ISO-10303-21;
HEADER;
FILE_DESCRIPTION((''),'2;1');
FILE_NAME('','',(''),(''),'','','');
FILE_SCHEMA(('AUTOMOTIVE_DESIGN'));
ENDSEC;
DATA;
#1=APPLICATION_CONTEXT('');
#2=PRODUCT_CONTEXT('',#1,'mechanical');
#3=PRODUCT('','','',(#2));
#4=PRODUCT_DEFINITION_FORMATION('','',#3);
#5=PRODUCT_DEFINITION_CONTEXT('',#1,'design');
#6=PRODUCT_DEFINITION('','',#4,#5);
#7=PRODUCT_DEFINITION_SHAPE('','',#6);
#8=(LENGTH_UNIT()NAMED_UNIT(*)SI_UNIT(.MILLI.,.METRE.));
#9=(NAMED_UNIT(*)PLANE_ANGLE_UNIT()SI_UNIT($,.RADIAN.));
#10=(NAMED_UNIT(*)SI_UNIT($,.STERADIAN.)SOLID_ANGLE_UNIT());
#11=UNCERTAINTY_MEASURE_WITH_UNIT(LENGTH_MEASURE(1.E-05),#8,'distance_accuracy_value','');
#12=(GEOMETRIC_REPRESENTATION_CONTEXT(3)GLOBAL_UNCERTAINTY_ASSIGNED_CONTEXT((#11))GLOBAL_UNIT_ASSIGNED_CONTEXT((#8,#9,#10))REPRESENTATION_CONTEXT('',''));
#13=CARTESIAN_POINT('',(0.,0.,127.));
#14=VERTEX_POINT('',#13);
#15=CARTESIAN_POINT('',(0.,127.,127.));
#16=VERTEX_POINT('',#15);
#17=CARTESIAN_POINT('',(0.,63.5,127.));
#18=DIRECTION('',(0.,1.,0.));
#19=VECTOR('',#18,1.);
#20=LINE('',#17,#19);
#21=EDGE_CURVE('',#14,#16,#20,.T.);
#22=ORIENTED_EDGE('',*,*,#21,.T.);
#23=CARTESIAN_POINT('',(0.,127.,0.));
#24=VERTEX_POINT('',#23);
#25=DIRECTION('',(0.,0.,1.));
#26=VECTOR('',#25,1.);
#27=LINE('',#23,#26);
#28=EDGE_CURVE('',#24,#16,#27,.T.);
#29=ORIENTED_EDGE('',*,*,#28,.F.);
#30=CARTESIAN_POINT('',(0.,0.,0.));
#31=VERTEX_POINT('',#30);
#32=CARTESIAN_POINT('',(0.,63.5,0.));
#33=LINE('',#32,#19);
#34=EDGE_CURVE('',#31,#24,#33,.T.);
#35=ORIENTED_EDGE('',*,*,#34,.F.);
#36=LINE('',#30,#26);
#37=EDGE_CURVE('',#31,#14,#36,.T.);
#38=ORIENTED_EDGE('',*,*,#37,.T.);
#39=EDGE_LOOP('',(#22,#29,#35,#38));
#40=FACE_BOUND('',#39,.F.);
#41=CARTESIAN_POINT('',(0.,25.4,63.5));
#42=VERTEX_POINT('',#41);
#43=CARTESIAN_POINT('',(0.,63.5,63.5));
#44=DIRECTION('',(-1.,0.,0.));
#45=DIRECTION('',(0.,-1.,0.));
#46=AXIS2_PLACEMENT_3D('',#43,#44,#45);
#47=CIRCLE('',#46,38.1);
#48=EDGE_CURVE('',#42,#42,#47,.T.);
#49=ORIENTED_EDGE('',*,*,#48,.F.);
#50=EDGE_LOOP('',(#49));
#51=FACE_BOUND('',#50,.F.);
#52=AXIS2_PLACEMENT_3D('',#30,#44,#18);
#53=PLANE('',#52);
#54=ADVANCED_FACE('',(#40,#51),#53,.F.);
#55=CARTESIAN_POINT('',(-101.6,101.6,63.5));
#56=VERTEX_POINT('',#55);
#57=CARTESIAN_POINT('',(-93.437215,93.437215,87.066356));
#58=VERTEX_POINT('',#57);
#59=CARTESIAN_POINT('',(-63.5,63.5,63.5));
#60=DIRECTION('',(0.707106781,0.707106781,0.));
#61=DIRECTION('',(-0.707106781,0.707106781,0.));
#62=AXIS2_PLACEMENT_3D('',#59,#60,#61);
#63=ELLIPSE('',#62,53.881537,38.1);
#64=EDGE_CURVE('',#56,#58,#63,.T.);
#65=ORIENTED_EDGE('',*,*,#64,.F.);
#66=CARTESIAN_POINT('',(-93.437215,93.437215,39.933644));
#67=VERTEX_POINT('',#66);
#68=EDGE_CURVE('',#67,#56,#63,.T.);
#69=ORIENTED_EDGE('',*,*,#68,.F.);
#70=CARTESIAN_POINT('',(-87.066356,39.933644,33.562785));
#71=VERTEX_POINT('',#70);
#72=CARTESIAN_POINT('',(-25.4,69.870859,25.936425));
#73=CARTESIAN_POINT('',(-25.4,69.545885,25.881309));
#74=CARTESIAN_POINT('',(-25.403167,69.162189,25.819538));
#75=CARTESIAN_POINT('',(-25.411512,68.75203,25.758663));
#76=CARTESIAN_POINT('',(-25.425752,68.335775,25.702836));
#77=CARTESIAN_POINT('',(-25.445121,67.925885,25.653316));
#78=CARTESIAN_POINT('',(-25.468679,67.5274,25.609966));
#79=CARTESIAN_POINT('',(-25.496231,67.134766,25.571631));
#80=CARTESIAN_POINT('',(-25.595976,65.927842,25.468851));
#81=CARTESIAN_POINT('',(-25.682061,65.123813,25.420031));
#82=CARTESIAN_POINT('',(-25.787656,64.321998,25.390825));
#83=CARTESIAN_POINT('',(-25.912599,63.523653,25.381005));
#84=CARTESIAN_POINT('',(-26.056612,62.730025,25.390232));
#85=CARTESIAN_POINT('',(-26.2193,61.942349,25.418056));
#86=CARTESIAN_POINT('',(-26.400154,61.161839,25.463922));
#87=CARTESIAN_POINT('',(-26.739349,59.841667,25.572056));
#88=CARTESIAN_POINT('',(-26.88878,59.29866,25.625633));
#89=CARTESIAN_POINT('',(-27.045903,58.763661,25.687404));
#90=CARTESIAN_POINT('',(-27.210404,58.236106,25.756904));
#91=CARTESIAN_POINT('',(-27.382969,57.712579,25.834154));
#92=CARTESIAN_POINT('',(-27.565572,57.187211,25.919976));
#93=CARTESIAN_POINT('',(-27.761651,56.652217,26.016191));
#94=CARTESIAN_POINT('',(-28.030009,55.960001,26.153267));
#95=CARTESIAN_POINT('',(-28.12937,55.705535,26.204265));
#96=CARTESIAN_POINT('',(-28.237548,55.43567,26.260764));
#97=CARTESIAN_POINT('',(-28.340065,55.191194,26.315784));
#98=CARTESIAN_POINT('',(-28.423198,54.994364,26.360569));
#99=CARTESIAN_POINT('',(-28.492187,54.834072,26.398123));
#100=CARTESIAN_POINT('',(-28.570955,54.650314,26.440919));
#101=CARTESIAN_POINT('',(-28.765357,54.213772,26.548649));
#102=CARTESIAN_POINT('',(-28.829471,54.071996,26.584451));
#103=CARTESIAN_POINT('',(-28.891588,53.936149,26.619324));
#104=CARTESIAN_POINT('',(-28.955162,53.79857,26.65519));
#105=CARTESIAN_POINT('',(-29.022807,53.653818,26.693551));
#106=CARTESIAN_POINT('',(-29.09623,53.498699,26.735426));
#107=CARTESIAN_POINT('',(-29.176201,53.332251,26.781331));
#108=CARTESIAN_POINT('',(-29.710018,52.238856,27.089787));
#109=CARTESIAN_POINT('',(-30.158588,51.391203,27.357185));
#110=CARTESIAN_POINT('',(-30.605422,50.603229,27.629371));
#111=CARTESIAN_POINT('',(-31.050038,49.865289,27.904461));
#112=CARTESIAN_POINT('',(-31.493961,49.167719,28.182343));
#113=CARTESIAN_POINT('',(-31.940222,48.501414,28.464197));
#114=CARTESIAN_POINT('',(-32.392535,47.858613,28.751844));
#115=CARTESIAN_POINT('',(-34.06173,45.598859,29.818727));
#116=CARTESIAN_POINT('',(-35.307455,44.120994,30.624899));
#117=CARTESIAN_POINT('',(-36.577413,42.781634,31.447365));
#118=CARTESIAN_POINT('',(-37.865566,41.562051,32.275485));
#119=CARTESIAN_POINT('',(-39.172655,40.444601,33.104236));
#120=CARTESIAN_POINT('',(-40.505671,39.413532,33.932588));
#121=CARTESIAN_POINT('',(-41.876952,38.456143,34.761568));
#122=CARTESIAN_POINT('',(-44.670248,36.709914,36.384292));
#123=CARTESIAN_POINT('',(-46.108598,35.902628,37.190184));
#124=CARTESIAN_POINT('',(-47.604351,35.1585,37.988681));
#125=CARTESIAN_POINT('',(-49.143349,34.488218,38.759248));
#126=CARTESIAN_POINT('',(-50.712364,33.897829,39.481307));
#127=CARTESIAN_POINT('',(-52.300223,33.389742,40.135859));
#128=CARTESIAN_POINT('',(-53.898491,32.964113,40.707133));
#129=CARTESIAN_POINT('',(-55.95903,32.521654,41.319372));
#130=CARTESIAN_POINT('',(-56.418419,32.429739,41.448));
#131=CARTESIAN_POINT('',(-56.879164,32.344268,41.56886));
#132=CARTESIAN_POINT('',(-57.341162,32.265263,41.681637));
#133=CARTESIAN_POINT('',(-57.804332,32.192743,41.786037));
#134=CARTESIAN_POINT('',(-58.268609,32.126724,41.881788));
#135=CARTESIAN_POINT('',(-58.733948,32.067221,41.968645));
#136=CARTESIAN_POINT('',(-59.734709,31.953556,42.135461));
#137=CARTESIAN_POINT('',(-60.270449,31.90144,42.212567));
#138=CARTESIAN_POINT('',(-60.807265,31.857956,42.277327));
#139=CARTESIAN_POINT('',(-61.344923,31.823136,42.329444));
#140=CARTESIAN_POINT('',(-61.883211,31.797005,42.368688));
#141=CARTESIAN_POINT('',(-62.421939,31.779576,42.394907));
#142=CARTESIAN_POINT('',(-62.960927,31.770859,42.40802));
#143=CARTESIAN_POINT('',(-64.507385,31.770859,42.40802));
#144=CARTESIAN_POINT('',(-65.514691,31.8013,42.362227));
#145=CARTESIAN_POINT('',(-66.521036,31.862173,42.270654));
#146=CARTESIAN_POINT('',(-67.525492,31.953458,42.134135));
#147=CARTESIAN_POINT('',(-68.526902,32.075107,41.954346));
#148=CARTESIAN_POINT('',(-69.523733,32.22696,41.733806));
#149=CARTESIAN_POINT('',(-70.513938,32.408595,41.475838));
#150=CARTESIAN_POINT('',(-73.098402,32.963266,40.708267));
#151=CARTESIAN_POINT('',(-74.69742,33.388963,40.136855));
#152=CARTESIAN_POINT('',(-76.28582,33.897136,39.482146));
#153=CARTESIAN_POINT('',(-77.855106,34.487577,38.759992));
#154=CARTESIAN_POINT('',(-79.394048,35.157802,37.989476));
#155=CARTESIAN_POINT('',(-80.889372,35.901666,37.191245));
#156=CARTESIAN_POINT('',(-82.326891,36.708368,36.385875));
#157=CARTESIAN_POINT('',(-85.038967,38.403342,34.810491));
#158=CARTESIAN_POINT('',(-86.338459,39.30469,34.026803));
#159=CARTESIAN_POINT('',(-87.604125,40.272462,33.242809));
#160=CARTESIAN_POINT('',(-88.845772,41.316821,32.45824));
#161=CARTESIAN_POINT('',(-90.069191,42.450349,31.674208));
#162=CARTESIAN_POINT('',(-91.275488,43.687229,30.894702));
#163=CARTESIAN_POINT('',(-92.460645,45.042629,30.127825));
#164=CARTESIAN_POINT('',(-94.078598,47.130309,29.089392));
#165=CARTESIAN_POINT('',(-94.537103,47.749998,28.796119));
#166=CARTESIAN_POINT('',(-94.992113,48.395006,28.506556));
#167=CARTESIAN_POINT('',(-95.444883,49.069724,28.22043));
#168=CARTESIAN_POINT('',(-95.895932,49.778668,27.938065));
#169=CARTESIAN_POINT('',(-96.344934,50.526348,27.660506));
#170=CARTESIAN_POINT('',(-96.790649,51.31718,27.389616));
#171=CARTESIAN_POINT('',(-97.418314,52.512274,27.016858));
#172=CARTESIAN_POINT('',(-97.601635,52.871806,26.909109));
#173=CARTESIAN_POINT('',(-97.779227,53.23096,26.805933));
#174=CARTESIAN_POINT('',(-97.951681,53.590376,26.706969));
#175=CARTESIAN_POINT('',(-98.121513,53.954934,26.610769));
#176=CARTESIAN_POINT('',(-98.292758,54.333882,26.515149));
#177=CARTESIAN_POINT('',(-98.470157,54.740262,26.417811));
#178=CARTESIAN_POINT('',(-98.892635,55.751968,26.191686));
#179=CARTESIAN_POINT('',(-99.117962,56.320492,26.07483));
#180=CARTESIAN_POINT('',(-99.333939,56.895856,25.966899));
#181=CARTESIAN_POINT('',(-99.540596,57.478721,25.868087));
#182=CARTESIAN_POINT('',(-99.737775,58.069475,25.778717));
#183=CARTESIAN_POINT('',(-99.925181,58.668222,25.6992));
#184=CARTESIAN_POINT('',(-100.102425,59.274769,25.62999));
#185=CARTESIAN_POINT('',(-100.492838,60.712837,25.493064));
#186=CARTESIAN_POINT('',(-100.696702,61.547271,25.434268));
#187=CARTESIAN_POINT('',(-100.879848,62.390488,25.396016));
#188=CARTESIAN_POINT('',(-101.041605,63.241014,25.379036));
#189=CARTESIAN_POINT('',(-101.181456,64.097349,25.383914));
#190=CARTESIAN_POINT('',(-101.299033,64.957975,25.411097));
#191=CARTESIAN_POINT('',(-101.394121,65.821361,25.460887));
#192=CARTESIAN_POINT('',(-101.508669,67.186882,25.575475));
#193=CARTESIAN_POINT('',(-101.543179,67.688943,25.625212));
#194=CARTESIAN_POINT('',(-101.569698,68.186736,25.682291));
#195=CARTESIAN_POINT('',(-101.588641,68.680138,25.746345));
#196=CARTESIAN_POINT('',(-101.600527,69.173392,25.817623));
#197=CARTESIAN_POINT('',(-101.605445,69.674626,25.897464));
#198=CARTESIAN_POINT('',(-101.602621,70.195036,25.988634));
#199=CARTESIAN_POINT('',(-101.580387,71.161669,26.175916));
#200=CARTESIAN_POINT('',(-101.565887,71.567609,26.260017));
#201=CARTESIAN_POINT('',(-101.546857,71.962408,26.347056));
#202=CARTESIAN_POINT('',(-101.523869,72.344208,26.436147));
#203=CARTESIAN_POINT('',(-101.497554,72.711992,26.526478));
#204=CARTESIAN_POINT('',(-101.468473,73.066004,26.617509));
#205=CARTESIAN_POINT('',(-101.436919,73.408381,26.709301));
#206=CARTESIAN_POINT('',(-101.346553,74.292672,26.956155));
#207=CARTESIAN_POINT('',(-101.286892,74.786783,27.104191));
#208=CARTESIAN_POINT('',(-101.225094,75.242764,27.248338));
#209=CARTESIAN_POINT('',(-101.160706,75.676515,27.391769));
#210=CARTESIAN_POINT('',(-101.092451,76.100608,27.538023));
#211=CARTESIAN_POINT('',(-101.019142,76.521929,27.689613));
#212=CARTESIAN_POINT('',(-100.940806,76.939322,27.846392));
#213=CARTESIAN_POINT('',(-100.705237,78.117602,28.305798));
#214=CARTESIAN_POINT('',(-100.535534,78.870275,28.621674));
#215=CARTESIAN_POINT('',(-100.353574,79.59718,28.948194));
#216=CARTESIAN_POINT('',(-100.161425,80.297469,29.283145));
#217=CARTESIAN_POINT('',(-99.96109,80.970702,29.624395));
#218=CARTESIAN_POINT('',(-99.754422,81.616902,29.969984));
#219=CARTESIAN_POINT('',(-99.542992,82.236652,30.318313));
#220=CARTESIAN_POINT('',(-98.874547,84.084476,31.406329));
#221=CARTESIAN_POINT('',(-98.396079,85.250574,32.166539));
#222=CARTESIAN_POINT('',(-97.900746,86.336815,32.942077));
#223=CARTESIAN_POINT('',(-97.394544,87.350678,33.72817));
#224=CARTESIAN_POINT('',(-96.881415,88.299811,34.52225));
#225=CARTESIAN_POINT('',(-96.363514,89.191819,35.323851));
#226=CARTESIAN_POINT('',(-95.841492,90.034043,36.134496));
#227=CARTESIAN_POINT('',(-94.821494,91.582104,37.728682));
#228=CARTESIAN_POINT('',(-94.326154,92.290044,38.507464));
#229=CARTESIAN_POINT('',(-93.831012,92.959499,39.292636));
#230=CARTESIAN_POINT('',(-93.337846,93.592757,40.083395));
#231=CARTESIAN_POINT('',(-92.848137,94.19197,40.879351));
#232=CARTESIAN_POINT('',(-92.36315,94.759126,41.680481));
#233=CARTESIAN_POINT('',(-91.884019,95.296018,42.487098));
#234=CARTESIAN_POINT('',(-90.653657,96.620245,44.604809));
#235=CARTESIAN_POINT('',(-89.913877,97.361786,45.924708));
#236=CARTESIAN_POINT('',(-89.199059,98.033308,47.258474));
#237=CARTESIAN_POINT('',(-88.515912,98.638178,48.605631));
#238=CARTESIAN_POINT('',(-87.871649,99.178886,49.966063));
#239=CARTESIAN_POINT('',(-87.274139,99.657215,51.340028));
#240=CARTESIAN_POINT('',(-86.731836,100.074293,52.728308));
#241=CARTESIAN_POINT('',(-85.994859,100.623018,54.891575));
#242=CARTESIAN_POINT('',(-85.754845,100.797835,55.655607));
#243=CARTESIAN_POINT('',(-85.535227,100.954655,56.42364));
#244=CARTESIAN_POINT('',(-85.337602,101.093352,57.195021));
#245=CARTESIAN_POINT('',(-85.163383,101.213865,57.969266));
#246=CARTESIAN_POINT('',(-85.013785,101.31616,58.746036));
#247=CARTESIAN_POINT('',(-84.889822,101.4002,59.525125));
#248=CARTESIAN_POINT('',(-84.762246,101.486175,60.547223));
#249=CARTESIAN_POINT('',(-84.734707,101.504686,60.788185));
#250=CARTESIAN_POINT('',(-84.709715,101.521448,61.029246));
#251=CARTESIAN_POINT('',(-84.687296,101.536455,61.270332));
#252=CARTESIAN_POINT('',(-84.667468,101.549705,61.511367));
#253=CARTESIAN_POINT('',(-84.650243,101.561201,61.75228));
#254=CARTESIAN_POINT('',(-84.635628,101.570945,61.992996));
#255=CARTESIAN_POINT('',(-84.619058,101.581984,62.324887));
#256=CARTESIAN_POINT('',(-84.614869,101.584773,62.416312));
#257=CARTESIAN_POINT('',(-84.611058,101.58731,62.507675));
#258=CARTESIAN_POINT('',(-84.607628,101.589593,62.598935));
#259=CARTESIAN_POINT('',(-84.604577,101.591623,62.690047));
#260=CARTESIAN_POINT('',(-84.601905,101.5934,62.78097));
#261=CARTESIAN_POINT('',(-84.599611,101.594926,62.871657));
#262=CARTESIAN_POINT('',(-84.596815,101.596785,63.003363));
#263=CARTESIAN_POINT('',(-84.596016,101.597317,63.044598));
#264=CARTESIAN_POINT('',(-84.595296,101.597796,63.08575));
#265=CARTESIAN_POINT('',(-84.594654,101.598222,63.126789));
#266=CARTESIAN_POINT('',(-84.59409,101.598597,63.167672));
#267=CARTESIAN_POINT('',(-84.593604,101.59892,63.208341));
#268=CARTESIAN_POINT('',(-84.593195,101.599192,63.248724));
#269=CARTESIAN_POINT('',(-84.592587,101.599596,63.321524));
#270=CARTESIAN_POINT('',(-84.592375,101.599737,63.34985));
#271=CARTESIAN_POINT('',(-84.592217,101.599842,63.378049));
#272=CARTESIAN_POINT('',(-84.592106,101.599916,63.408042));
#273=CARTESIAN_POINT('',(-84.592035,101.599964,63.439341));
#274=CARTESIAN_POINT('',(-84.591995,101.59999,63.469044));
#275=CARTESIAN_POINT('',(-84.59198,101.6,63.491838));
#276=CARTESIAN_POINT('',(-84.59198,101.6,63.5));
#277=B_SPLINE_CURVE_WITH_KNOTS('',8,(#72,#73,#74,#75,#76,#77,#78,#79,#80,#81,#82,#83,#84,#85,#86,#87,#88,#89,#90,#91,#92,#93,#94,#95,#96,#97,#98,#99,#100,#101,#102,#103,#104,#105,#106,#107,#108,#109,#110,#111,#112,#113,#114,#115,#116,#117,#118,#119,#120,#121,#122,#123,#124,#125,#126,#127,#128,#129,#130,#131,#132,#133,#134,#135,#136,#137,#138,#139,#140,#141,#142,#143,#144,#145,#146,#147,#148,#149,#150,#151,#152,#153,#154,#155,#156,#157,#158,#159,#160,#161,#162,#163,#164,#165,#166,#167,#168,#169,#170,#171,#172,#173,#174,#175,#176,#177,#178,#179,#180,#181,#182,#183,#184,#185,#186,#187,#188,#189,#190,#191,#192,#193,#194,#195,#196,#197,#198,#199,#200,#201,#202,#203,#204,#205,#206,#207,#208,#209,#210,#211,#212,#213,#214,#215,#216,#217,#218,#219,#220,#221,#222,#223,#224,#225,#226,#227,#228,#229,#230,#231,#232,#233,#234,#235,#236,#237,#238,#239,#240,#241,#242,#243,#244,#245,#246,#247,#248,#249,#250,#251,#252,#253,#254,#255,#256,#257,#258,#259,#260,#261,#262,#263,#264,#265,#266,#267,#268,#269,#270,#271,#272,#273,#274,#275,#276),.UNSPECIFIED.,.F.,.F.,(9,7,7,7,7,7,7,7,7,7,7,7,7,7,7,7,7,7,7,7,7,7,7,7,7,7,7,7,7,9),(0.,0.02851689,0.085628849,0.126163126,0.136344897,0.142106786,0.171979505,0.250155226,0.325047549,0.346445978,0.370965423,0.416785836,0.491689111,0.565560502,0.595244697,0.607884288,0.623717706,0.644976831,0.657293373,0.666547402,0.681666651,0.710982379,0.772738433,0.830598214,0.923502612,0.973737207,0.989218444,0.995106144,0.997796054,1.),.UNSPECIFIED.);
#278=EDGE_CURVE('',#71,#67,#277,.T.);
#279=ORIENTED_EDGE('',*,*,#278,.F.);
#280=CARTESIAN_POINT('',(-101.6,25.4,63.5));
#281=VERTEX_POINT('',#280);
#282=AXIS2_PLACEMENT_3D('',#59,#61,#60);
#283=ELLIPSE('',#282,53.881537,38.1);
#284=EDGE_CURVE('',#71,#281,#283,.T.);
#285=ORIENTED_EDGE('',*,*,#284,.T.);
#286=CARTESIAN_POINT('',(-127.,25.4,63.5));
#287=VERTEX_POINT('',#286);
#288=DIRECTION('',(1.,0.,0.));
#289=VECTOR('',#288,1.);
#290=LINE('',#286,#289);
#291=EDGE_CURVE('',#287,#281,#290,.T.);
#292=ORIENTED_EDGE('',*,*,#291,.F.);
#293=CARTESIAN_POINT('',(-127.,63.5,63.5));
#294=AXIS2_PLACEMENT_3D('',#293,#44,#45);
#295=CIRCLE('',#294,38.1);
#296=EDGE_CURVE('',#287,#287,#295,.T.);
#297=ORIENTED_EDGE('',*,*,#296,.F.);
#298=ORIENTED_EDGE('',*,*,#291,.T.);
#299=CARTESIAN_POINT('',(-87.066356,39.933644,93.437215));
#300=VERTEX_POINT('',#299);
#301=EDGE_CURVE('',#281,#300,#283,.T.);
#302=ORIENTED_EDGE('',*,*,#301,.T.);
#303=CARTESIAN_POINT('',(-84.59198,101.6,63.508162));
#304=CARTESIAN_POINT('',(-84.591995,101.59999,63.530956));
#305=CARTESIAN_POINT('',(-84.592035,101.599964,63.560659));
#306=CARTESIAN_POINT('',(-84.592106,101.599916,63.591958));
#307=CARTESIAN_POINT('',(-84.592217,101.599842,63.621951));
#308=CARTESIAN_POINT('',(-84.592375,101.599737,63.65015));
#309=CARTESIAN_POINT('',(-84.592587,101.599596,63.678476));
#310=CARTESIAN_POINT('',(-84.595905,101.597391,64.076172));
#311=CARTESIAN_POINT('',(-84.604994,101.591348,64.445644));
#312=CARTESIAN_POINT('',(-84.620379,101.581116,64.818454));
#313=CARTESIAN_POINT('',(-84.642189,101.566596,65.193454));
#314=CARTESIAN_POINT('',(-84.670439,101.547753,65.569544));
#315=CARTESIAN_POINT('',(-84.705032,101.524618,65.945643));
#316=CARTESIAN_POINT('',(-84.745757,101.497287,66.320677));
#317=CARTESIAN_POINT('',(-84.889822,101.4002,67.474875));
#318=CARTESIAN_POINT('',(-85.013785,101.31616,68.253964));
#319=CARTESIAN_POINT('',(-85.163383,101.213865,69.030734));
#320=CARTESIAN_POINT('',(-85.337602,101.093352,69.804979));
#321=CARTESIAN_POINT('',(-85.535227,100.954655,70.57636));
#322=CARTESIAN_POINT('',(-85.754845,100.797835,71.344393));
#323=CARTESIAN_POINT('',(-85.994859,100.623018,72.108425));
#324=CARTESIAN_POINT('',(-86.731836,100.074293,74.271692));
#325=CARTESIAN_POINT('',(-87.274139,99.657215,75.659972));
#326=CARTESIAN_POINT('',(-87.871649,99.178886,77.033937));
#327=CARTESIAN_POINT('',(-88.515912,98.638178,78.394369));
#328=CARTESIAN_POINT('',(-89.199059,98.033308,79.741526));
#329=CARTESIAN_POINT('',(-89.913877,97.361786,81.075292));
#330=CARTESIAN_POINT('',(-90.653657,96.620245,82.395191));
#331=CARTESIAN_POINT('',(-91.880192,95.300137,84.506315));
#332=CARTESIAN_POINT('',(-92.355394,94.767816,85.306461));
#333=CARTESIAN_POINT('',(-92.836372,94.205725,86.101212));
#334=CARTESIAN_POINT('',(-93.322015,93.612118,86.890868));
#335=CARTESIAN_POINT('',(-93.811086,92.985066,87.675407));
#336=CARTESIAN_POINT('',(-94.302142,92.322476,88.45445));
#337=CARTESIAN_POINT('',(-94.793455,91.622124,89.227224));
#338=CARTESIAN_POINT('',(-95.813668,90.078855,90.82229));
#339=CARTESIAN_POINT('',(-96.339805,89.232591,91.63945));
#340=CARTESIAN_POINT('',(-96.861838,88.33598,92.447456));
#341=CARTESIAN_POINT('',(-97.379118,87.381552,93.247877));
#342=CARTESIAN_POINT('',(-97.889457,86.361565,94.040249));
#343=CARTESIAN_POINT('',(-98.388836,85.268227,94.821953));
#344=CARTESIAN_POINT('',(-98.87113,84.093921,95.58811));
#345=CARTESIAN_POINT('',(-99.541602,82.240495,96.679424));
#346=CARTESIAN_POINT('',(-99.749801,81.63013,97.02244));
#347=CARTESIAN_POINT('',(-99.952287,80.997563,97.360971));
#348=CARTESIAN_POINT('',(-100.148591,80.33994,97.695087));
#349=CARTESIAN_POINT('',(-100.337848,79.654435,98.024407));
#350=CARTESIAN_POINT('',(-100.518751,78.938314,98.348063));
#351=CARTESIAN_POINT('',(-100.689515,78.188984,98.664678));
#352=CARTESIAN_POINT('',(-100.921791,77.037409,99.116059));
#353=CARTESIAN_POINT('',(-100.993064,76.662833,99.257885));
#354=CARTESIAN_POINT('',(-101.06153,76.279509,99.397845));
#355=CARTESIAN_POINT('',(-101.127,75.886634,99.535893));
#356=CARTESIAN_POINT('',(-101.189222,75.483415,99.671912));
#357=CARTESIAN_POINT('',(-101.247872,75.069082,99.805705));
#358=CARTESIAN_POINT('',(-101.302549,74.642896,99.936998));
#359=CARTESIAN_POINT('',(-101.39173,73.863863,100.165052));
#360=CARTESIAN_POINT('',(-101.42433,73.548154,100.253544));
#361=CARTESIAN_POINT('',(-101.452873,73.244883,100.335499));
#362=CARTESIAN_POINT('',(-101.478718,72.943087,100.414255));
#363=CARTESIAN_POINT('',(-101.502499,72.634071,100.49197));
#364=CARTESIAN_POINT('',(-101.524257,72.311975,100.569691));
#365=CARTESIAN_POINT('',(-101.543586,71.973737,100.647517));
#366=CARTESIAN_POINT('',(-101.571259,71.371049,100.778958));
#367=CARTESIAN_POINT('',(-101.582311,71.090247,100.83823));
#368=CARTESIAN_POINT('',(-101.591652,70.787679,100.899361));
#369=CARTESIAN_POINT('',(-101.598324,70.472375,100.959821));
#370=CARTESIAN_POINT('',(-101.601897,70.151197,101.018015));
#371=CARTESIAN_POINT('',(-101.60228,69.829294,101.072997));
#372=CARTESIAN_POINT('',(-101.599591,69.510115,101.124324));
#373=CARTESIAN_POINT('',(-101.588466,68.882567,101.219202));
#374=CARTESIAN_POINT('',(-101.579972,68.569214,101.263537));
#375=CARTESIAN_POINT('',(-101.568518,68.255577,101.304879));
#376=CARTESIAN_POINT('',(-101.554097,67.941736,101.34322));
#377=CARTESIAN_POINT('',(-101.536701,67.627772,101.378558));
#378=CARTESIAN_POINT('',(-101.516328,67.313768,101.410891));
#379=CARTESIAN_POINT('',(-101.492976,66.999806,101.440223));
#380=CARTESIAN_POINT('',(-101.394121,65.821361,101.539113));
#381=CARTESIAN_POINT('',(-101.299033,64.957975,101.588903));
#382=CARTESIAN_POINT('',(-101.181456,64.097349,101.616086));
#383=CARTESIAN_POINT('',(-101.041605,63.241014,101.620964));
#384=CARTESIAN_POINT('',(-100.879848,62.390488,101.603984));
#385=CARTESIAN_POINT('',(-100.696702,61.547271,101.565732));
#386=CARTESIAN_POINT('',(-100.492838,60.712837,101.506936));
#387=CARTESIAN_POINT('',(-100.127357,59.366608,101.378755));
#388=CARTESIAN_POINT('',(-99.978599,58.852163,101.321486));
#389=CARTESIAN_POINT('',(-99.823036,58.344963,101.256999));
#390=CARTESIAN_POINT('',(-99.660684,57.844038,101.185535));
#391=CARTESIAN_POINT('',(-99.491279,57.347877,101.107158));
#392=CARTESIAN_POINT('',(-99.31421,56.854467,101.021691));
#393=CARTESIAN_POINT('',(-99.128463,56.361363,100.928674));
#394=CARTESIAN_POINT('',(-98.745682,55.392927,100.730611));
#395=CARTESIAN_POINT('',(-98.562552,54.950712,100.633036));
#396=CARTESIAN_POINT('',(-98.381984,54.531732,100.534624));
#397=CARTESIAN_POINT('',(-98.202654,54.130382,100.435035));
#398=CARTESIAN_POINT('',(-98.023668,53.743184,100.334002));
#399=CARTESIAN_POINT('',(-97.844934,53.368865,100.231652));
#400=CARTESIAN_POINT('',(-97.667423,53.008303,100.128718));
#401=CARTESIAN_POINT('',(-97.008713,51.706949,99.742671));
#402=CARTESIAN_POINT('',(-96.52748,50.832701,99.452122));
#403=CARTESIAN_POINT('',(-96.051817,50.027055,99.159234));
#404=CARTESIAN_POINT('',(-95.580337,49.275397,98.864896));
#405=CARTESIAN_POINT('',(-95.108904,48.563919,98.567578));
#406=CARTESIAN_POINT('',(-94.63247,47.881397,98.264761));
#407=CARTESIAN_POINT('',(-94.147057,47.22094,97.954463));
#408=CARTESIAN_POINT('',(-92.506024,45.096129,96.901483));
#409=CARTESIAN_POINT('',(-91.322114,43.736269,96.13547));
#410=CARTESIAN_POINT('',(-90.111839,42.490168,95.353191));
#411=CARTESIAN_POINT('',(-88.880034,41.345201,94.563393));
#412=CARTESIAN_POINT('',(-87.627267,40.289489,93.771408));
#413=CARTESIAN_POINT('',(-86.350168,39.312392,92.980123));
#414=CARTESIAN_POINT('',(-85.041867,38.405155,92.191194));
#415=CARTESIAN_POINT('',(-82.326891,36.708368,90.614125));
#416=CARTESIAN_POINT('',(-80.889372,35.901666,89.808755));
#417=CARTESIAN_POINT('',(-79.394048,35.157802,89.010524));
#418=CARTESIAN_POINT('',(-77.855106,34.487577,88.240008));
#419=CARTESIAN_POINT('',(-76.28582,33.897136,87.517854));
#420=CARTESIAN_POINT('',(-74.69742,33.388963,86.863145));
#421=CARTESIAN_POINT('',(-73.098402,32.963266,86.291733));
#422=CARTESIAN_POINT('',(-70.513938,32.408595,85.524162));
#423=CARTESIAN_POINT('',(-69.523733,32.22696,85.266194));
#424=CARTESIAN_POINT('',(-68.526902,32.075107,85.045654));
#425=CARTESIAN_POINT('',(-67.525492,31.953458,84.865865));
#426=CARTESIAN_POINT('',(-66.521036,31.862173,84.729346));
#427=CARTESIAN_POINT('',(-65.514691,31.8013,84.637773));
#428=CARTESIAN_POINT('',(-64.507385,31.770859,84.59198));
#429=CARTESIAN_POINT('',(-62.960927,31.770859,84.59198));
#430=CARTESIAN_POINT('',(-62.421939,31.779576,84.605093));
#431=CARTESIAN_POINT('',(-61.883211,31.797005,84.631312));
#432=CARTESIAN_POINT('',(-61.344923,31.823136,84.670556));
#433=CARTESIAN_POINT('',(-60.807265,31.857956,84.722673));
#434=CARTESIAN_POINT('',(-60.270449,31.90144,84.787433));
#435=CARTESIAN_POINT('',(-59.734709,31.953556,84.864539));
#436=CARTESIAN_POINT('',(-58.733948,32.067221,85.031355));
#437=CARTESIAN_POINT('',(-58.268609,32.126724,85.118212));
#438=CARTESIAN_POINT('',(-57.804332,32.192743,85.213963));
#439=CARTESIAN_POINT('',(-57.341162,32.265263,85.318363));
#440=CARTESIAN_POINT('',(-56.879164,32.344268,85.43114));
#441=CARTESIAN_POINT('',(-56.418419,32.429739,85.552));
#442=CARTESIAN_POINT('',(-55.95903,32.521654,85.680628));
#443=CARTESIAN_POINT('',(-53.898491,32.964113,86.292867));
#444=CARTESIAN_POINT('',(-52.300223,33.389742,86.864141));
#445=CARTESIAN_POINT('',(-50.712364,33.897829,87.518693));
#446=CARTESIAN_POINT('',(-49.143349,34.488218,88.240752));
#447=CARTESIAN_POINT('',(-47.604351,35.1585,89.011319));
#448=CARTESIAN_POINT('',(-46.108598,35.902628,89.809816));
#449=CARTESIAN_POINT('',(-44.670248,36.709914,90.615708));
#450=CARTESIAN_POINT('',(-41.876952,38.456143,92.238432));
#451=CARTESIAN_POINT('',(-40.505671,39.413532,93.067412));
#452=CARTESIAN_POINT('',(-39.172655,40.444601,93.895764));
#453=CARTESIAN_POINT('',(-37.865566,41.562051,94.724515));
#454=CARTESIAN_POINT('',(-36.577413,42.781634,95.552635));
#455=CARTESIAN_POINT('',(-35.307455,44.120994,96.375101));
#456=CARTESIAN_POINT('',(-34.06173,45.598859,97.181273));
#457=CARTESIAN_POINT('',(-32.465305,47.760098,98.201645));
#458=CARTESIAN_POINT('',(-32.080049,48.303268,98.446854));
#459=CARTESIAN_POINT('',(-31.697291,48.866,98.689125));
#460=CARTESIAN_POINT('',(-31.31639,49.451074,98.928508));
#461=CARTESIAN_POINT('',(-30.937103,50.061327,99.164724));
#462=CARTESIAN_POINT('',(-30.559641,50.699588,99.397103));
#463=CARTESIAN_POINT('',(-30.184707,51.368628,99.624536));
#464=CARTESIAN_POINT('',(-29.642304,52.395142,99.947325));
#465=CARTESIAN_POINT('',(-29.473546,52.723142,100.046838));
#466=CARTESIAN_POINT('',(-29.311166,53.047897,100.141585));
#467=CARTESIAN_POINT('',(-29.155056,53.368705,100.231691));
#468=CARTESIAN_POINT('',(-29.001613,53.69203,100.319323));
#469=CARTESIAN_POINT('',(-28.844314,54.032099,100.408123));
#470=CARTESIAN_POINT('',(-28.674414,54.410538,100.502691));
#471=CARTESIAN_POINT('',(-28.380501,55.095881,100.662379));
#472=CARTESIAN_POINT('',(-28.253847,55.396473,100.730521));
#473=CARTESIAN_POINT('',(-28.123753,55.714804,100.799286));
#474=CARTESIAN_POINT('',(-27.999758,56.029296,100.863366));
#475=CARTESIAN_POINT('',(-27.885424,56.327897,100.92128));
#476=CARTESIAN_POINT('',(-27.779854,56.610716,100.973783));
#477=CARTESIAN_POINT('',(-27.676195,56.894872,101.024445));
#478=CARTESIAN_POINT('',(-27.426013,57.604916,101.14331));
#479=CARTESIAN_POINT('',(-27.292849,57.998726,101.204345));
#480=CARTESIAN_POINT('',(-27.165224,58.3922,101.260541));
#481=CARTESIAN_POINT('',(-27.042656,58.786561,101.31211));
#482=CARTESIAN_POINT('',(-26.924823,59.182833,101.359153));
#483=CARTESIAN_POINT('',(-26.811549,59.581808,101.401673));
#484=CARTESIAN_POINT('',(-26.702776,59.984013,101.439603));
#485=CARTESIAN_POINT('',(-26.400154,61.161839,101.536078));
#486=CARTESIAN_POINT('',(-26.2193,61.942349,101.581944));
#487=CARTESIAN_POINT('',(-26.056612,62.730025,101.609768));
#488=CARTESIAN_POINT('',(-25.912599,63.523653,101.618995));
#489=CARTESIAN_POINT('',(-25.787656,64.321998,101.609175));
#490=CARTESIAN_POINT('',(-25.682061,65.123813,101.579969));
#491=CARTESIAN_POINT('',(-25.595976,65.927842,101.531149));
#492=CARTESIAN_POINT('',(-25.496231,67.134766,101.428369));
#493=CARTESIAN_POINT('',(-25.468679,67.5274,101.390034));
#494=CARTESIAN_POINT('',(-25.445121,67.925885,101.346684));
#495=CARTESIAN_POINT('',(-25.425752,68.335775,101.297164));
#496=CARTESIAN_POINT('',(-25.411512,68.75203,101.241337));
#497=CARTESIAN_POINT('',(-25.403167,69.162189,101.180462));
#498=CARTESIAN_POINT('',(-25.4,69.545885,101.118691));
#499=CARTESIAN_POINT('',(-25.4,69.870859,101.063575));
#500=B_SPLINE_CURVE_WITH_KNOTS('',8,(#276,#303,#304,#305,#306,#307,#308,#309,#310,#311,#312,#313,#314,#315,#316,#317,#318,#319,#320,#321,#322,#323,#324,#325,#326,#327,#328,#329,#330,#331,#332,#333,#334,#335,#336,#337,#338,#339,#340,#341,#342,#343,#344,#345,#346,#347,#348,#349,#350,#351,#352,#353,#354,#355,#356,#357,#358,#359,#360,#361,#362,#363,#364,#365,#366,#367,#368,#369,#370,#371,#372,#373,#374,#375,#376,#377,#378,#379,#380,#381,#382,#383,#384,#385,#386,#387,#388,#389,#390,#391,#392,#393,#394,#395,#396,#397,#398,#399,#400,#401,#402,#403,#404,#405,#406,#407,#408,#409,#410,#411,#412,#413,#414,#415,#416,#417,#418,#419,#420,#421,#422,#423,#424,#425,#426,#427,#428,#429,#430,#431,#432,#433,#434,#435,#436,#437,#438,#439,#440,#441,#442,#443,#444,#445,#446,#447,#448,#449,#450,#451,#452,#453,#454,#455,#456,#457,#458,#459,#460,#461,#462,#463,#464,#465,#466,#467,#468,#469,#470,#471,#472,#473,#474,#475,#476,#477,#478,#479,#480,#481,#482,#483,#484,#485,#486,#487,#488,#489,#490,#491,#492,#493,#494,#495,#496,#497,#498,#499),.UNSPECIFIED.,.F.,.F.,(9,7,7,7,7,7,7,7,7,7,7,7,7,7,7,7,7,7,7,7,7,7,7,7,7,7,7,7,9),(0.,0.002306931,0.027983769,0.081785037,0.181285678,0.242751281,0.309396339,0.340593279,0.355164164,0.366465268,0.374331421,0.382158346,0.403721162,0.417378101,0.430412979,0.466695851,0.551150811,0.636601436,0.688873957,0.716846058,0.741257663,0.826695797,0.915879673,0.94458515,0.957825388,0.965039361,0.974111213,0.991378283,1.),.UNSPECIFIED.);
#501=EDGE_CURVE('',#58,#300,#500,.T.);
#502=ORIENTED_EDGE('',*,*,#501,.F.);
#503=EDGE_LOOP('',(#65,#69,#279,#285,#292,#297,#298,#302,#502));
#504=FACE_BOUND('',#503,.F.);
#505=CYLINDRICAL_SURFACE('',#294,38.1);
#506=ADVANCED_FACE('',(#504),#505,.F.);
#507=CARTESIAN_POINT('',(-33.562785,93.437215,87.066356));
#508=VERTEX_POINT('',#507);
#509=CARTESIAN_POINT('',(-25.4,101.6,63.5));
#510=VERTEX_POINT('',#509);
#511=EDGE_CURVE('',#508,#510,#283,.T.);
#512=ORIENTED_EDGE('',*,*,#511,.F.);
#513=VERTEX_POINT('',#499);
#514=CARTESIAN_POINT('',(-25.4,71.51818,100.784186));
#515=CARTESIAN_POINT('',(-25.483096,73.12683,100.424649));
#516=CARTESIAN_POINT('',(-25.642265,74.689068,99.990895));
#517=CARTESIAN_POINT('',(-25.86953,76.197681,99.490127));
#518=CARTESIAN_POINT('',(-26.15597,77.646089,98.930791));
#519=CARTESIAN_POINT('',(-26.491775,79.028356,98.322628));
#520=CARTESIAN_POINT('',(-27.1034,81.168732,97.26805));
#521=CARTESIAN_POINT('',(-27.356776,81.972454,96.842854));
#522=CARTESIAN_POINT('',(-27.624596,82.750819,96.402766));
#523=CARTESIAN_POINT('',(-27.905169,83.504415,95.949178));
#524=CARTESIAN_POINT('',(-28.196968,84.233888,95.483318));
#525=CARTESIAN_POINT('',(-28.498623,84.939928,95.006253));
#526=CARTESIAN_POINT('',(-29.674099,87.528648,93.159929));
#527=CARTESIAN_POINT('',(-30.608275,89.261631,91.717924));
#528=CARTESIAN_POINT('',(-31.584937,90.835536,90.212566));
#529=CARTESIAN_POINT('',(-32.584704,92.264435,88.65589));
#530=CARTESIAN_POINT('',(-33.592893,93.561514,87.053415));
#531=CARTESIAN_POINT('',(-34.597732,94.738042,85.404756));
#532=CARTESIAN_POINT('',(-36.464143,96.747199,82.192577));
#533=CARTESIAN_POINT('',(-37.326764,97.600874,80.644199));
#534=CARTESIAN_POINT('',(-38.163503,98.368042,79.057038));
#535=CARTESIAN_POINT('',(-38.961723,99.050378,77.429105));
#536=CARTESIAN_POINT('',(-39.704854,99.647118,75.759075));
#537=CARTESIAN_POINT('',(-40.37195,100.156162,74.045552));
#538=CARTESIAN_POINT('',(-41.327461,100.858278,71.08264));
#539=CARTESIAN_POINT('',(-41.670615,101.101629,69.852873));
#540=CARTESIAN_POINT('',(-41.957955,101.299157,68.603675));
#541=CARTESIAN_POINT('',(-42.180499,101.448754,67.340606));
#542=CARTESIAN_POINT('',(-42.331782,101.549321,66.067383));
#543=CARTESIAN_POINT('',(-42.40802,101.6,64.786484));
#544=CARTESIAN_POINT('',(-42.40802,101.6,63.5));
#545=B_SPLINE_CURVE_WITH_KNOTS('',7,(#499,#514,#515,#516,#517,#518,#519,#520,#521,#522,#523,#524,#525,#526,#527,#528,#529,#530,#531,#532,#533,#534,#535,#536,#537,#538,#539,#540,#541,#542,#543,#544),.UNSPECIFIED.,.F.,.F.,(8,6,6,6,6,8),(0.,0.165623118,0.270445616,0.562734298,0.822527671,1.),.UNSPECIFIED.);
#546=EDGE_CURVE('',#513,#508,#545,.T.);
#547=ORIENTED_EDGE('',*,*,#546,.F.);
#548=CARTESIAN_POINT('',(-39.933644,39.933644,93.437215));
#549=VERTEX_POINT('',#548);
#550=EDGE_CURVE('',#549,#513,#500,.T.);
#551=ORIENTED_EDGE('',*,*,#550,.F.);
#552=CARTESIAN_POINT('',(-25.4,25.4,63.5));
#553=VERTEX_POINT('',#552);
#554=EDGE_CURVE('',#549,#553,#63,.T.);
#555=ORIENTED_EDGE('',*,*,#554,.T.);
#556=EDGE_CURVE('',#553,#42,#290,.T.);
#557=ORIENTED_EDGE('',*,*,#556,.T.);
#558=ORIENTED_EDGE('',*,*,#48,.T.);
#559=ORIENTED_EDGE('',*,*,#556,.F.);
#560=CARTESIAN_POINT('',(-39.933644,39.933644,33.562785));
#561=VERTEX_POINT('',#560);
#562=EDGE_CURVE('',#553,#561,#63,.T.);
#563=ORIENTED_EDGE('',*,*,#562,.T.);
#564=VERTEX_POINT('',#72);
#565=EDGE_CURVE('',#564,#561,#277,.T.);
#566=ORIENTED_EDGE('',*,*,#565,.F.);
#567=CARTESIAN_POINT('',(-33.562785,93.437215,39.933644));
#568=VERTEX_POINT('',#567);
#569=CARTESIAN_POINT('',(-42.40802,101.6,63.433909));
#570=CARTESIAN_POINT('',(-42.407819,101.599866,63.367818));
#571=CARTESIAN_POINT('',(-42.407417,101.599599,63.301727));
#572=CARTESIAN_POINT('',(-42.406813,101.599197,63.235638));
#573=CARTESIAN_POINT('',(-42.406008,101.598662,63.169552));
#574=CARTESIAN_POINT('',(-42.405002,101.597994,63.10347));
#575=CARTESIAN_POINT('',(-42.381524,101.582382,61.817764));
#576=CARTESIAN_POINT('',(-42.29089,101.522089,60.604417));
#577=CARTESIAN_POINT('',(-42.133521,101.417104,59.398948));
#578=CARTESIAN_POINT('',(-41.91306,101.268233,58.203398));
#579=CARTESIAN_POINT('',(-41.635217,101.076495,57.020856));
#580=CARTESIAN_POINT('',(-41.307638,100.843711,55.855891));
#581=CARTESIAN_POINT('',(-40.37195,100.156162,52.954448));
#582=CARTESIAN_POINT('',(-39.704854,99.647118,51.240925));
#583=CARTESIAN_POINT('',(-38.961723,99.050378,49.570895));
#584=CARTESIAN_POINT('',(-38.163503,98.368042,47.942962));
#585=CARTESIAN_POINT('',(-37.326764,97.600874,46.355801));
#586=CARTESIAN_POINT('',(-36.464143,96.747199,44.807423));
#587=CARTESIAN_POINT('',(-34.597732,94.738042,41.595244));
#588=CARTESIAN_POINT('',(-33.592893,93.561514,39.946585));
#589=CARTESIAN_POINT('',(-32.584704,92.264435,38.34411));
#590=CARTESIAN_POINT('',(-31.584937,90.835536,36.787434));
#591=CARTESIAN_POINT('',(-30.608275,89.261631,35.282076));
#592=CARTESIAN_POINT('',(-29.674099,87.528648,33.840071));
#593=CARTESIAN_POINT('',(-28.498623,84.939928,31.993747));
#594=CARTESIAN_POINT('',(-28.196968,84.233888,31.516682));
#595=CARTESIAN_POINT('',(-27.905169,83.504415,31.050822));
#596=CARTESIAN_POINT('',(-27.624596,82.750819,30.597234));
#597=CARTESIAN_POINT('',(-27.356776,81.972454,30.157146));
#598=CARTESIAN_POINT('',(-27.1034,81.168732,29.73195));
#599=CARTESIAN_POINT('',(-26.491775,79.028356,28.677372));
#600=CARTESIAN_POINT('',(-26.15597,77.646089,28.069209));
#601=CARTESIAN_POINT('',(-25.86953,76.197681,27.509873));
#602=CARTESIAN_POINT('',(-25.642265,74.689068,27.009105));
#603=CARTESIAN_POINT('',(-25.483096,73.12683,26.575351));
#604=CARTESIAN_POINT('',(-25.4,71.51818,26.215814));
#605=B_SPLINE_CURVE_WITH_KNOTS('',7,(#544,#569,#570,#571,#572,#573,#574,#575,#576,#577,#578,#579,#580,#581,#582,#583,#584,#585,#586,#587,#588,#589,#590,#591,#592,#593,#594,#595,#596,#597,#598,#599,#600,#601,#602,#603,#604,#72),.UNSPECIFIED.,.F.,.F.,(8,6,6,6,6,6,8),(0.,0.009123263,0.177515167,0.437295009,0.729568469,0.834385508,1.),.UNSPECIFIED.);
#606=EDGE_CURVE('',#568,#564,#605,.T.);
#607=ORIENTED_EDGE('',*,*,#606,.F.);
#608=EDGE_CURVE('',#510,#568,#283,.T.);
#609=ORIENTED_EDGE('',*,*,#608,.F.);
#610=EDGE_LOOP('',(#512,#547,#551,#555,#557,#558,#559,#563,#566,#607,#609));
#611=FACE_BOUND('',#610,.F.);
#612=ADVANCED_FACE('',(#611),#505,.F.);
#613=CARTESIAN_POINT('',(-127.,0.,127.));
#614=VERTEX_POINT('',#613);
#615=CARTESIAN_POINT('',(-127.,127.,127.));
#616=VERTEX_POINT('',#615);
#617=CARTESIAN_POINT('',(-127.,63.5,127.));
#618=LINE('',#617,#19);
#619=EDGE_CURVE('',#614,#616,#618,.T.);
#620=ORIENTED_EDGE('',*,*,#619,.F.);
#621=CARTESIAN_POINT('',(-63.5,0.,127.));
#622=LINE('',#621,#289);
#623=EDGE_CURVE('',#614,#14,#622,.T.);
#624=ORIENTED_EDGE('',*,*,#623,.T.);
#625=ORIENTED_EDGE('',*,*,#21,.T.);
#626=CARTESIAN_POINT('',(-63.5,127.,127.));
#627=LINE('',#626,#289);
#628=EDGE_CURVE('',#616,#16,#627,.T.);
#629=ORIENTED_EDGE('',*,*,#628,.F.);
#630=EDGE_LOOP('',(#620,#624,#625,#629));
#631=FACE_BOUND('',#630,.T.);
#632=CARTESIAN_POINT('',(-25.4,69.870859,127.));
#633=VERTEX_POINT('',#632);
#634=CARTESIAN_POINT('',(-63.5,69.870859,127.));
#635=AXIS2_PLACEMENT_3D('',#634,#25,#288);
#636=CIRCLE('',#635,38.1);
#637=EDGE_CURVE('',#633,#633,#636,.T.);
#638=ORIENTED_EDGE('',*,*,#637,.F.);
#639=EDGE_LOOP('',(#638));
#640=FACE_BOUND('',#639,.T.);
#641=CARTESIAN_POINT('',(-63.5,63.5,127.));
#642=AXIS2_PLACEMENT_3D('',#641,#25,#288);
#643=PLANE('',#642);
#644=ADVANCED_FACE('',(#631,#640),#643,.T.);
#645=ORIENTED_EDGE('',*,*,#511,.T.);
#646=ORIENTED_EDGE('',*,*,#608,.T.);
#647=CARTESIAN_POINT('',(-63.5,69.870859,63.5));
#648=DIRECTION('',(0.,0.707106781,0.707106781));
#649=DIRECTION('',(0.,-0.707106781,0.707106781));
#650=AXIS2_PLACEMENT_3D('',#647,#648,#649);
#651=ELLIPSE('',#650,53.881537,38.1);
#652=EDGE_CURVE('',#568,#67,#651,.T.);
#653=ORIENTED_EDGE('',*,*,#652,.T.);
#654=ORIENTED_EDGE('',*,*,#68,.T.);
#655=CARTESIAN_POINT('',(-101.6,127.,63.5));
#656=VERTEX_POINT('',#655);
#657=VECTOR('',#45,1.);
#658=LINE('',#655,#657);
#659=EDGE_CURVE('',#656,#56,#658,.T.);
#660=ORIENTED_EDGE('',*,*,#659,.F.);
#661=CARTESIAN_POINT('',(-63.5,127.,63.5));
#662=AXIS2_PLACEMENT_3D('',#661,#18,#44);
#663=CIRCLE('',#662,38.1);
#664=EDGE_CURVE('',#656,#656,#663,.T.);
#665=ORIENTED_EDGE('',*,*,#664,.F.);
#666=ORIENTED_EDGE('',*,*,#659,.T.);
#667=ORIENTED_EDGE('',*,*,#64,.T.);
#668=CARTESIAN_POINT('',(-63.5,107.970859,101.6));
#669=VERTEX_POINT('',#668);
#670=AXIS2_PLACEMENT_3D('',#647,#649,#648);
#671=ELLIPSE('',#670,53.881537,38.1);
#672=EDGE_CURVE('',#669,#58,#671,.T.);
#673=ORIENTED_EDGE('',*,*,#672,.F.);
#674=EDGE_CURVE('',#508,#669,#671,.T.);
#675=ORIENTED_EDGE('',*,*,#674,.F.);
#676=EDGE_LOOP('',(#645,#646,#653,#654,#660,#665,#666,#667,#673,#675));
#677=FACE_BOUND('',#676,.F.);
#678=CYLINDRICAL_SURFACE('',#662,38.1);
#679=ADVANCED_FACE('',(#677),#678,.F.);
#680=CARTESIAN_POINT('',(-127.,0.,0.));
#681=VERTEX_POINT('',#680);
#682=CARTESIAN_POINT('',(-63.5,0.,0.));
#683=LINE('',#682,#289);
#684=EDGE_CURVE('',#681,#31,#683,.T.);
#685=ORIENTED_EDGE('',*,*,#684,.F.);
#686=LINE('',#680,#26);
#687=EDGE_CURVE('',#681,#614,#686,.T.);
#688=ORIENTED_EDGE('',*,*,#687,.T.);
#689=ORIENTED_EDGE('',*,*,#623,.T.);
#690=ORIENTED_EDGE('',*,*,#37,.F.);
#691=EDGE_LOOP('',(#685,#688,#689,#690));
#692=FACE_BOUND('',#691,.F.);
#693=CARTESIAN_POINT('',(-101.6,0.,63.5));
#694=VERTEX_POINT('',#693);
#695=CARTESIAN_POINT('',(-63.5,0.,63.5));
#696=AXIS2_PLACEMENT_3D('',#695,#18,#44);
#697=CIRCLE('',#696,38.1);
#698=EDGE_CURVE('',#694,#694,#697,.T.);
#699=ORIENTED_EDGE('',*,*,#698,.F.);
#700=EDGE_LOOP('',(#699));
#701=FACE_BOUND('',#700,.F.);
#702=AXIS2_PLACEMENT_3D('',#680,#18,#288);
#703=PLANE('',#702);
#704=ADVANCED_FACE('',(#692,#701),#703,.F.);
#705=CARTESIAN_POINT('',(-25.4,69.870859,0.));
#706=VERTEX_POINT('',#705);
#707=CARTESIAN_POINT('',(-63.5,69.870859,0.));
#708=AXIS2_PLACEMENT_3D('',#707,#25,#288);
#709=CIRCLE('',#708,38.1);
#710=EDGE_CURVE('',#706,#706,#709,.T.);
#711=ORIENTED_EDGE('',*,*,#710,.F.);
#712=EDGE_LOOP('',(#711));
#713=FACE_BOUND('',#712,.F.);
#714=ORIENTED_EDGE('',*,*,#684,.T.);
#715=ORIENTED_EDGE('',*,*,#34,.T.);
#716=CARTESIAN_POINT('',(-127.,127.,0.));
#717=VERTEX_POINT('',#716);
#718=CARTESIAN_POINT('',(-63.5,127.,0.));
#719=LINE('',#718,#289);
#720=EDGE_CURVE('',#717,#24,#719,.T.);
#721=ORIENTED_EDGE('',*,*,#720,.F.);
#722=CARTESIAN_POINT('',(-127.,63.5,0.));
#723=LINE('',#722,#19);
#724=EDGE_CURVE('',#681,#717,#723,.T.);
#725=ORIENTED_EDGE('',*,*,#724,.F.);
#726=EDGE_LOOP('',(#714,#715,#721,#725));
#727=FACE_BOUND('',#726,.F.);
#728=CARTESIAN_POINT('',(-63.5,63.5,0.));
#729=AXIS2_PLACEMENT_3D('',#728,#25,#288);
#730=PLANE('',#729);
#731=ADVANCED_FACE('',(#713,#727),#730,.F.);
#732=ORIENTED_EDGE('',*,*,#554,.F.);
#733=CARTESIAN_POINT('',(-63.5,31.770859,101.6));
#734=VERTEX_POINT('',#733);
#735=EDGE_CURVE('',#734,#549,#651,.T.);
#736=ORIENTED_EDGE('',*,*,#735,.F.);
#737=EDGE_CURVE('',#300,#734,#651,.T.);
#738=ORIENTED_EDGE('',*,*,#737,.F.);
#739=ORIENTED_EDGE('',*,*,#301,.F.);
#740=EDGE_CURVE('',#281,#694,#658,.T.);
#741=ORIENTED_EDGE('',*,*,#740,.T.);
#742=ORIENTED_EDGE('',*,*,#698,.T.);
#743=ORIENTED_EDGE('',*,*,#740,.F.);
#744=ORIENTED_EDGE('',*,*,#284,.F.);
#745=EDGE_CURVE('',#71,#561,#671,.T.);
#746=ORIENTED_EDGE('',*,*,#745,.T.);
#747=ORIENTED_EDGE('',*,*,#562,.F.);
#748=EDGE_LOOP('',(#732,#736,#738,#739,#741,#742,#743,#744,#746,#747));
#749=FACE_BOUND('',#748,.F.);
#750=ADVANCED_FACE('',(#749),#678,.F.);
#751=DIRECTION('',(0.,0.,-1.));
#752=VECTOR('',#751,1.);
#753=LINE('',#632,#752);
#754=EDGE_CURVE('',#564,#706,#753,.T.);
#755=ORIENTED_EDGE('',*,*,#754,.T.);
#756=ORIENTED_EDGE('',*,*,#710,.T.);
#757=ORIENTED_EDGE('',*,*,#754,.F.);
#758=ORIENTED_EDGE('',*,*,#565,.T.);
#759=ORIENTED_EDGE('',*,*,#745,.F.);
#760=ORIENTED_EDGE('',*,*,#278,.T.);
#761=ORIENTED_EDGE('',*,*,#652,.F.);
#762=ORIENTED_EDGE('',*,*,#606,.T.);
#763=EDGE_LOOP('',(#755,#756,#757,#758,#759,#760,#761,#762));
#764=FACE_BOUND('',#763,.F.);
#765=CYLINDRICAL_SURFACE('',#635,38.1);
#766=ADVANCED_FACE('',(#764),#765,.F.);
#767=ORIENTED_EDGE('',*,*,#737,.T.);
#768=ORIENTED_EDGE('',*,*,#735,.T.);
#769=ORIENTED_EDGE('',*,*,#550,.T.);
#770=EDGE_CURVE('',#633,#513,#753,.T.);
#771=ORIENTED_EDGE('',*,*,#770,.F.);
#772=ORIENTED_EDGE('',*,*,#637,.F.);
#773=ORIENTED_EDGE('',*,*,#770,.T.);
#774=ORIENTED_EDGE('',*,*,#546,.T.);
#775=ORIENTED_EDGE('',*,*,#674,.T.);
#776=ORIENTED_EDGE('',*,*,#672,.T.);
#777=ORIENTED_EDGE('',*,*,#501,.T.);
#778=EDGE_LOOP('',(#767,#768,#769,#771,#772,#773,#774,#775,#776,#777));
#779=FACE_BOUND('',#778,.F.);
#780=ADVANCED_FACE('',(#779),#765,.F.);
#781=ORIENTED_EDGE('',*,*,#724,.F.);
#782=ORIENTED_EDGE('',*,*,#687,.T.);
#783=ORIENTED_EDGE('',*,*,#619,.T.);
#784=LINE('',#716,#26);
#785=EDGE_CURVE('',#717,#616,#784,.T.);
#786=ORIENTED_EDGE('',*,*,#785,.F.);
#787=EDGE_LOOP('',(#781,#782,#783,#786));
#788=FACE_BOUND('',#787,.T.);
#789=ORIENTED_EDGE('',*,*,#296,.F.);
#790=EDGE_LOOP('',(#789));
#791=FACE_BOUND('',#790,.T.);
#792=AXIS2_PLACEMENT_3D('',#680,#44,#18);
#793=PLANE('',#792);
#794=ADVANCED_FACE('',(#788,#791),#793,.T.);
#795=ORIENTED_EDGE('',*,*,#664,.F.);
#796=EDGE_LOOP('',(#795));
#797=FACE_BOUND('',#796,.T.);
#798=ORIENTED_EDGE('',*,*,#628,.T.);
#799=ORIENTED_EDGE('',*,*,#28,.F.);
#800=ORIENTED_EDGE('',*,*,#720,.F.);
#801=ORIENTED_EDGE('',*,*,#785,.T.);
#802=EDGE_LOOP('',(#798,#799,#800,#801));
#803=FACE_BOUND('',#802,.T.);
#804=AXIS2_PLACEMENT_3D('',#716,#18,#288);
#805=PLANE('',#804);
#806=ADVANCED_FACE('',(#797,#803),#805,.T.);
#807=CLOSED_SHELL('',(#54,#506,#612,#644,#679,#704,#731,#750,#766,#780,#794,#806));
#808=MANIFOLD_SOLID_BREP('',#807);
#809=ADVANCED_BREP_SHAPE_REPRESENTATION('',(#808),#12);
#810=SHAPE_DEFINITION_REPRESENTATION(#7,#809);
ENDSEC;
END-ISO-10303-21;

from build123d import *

# Parameters (mm, degrees)
F0_W     = 127
F0_H     = 127
F1_DEPTH = 127
F4_R     = 38.1
F5_DEPTH = 127
F3_R     = 38.1
F6_DEPTH = 127
F2_R     = 38.1
F7_DEPTH = 127


with BuildPart() as f1:
    # F0 (on Top) → F1 (new body)
    with BuildSketch(Plane.XY):
        with Locations((-63.5, 63.5)):
            Rectangle(F0_W, F0_H)
    extrude(amount=F1_DEPTH)

    # F4 (on face) → F5 (cut)
    with BuildSketch(Plane.XY.offset(127)):
        with Locations((-63.5, 69.870859)):
            Circle(F4_R)
    extrude(amount=-F5_DEPTH, mode=Mode.SUBTRACT)

    # F3 (on face) → F6 (cut)
    with BuildSketch(Plane(origin=(0, 127, 0), x_dir=(-1, 0, 0), z_dir=(0, 1, 0))):
        with Locations((63.5, 63.5)):
            Circle(F3_R)
    extrude(amount=-F6_DEPTH, mode=Mode.SUBTRACT)

    # F2 (on face) → F7 (cut)
    with BuildSketch(Plane(origin=(-127, 0, 0), x_dir=(0, -1, 0), z_dir=(-1, 0, 0))):
        with Locations((-63.5, 63.5)):
            Circle(F2_R)
    extrude(amount=-F7_DEPTH, mode=Mode.SUBTRACT)


solid = f1.part
